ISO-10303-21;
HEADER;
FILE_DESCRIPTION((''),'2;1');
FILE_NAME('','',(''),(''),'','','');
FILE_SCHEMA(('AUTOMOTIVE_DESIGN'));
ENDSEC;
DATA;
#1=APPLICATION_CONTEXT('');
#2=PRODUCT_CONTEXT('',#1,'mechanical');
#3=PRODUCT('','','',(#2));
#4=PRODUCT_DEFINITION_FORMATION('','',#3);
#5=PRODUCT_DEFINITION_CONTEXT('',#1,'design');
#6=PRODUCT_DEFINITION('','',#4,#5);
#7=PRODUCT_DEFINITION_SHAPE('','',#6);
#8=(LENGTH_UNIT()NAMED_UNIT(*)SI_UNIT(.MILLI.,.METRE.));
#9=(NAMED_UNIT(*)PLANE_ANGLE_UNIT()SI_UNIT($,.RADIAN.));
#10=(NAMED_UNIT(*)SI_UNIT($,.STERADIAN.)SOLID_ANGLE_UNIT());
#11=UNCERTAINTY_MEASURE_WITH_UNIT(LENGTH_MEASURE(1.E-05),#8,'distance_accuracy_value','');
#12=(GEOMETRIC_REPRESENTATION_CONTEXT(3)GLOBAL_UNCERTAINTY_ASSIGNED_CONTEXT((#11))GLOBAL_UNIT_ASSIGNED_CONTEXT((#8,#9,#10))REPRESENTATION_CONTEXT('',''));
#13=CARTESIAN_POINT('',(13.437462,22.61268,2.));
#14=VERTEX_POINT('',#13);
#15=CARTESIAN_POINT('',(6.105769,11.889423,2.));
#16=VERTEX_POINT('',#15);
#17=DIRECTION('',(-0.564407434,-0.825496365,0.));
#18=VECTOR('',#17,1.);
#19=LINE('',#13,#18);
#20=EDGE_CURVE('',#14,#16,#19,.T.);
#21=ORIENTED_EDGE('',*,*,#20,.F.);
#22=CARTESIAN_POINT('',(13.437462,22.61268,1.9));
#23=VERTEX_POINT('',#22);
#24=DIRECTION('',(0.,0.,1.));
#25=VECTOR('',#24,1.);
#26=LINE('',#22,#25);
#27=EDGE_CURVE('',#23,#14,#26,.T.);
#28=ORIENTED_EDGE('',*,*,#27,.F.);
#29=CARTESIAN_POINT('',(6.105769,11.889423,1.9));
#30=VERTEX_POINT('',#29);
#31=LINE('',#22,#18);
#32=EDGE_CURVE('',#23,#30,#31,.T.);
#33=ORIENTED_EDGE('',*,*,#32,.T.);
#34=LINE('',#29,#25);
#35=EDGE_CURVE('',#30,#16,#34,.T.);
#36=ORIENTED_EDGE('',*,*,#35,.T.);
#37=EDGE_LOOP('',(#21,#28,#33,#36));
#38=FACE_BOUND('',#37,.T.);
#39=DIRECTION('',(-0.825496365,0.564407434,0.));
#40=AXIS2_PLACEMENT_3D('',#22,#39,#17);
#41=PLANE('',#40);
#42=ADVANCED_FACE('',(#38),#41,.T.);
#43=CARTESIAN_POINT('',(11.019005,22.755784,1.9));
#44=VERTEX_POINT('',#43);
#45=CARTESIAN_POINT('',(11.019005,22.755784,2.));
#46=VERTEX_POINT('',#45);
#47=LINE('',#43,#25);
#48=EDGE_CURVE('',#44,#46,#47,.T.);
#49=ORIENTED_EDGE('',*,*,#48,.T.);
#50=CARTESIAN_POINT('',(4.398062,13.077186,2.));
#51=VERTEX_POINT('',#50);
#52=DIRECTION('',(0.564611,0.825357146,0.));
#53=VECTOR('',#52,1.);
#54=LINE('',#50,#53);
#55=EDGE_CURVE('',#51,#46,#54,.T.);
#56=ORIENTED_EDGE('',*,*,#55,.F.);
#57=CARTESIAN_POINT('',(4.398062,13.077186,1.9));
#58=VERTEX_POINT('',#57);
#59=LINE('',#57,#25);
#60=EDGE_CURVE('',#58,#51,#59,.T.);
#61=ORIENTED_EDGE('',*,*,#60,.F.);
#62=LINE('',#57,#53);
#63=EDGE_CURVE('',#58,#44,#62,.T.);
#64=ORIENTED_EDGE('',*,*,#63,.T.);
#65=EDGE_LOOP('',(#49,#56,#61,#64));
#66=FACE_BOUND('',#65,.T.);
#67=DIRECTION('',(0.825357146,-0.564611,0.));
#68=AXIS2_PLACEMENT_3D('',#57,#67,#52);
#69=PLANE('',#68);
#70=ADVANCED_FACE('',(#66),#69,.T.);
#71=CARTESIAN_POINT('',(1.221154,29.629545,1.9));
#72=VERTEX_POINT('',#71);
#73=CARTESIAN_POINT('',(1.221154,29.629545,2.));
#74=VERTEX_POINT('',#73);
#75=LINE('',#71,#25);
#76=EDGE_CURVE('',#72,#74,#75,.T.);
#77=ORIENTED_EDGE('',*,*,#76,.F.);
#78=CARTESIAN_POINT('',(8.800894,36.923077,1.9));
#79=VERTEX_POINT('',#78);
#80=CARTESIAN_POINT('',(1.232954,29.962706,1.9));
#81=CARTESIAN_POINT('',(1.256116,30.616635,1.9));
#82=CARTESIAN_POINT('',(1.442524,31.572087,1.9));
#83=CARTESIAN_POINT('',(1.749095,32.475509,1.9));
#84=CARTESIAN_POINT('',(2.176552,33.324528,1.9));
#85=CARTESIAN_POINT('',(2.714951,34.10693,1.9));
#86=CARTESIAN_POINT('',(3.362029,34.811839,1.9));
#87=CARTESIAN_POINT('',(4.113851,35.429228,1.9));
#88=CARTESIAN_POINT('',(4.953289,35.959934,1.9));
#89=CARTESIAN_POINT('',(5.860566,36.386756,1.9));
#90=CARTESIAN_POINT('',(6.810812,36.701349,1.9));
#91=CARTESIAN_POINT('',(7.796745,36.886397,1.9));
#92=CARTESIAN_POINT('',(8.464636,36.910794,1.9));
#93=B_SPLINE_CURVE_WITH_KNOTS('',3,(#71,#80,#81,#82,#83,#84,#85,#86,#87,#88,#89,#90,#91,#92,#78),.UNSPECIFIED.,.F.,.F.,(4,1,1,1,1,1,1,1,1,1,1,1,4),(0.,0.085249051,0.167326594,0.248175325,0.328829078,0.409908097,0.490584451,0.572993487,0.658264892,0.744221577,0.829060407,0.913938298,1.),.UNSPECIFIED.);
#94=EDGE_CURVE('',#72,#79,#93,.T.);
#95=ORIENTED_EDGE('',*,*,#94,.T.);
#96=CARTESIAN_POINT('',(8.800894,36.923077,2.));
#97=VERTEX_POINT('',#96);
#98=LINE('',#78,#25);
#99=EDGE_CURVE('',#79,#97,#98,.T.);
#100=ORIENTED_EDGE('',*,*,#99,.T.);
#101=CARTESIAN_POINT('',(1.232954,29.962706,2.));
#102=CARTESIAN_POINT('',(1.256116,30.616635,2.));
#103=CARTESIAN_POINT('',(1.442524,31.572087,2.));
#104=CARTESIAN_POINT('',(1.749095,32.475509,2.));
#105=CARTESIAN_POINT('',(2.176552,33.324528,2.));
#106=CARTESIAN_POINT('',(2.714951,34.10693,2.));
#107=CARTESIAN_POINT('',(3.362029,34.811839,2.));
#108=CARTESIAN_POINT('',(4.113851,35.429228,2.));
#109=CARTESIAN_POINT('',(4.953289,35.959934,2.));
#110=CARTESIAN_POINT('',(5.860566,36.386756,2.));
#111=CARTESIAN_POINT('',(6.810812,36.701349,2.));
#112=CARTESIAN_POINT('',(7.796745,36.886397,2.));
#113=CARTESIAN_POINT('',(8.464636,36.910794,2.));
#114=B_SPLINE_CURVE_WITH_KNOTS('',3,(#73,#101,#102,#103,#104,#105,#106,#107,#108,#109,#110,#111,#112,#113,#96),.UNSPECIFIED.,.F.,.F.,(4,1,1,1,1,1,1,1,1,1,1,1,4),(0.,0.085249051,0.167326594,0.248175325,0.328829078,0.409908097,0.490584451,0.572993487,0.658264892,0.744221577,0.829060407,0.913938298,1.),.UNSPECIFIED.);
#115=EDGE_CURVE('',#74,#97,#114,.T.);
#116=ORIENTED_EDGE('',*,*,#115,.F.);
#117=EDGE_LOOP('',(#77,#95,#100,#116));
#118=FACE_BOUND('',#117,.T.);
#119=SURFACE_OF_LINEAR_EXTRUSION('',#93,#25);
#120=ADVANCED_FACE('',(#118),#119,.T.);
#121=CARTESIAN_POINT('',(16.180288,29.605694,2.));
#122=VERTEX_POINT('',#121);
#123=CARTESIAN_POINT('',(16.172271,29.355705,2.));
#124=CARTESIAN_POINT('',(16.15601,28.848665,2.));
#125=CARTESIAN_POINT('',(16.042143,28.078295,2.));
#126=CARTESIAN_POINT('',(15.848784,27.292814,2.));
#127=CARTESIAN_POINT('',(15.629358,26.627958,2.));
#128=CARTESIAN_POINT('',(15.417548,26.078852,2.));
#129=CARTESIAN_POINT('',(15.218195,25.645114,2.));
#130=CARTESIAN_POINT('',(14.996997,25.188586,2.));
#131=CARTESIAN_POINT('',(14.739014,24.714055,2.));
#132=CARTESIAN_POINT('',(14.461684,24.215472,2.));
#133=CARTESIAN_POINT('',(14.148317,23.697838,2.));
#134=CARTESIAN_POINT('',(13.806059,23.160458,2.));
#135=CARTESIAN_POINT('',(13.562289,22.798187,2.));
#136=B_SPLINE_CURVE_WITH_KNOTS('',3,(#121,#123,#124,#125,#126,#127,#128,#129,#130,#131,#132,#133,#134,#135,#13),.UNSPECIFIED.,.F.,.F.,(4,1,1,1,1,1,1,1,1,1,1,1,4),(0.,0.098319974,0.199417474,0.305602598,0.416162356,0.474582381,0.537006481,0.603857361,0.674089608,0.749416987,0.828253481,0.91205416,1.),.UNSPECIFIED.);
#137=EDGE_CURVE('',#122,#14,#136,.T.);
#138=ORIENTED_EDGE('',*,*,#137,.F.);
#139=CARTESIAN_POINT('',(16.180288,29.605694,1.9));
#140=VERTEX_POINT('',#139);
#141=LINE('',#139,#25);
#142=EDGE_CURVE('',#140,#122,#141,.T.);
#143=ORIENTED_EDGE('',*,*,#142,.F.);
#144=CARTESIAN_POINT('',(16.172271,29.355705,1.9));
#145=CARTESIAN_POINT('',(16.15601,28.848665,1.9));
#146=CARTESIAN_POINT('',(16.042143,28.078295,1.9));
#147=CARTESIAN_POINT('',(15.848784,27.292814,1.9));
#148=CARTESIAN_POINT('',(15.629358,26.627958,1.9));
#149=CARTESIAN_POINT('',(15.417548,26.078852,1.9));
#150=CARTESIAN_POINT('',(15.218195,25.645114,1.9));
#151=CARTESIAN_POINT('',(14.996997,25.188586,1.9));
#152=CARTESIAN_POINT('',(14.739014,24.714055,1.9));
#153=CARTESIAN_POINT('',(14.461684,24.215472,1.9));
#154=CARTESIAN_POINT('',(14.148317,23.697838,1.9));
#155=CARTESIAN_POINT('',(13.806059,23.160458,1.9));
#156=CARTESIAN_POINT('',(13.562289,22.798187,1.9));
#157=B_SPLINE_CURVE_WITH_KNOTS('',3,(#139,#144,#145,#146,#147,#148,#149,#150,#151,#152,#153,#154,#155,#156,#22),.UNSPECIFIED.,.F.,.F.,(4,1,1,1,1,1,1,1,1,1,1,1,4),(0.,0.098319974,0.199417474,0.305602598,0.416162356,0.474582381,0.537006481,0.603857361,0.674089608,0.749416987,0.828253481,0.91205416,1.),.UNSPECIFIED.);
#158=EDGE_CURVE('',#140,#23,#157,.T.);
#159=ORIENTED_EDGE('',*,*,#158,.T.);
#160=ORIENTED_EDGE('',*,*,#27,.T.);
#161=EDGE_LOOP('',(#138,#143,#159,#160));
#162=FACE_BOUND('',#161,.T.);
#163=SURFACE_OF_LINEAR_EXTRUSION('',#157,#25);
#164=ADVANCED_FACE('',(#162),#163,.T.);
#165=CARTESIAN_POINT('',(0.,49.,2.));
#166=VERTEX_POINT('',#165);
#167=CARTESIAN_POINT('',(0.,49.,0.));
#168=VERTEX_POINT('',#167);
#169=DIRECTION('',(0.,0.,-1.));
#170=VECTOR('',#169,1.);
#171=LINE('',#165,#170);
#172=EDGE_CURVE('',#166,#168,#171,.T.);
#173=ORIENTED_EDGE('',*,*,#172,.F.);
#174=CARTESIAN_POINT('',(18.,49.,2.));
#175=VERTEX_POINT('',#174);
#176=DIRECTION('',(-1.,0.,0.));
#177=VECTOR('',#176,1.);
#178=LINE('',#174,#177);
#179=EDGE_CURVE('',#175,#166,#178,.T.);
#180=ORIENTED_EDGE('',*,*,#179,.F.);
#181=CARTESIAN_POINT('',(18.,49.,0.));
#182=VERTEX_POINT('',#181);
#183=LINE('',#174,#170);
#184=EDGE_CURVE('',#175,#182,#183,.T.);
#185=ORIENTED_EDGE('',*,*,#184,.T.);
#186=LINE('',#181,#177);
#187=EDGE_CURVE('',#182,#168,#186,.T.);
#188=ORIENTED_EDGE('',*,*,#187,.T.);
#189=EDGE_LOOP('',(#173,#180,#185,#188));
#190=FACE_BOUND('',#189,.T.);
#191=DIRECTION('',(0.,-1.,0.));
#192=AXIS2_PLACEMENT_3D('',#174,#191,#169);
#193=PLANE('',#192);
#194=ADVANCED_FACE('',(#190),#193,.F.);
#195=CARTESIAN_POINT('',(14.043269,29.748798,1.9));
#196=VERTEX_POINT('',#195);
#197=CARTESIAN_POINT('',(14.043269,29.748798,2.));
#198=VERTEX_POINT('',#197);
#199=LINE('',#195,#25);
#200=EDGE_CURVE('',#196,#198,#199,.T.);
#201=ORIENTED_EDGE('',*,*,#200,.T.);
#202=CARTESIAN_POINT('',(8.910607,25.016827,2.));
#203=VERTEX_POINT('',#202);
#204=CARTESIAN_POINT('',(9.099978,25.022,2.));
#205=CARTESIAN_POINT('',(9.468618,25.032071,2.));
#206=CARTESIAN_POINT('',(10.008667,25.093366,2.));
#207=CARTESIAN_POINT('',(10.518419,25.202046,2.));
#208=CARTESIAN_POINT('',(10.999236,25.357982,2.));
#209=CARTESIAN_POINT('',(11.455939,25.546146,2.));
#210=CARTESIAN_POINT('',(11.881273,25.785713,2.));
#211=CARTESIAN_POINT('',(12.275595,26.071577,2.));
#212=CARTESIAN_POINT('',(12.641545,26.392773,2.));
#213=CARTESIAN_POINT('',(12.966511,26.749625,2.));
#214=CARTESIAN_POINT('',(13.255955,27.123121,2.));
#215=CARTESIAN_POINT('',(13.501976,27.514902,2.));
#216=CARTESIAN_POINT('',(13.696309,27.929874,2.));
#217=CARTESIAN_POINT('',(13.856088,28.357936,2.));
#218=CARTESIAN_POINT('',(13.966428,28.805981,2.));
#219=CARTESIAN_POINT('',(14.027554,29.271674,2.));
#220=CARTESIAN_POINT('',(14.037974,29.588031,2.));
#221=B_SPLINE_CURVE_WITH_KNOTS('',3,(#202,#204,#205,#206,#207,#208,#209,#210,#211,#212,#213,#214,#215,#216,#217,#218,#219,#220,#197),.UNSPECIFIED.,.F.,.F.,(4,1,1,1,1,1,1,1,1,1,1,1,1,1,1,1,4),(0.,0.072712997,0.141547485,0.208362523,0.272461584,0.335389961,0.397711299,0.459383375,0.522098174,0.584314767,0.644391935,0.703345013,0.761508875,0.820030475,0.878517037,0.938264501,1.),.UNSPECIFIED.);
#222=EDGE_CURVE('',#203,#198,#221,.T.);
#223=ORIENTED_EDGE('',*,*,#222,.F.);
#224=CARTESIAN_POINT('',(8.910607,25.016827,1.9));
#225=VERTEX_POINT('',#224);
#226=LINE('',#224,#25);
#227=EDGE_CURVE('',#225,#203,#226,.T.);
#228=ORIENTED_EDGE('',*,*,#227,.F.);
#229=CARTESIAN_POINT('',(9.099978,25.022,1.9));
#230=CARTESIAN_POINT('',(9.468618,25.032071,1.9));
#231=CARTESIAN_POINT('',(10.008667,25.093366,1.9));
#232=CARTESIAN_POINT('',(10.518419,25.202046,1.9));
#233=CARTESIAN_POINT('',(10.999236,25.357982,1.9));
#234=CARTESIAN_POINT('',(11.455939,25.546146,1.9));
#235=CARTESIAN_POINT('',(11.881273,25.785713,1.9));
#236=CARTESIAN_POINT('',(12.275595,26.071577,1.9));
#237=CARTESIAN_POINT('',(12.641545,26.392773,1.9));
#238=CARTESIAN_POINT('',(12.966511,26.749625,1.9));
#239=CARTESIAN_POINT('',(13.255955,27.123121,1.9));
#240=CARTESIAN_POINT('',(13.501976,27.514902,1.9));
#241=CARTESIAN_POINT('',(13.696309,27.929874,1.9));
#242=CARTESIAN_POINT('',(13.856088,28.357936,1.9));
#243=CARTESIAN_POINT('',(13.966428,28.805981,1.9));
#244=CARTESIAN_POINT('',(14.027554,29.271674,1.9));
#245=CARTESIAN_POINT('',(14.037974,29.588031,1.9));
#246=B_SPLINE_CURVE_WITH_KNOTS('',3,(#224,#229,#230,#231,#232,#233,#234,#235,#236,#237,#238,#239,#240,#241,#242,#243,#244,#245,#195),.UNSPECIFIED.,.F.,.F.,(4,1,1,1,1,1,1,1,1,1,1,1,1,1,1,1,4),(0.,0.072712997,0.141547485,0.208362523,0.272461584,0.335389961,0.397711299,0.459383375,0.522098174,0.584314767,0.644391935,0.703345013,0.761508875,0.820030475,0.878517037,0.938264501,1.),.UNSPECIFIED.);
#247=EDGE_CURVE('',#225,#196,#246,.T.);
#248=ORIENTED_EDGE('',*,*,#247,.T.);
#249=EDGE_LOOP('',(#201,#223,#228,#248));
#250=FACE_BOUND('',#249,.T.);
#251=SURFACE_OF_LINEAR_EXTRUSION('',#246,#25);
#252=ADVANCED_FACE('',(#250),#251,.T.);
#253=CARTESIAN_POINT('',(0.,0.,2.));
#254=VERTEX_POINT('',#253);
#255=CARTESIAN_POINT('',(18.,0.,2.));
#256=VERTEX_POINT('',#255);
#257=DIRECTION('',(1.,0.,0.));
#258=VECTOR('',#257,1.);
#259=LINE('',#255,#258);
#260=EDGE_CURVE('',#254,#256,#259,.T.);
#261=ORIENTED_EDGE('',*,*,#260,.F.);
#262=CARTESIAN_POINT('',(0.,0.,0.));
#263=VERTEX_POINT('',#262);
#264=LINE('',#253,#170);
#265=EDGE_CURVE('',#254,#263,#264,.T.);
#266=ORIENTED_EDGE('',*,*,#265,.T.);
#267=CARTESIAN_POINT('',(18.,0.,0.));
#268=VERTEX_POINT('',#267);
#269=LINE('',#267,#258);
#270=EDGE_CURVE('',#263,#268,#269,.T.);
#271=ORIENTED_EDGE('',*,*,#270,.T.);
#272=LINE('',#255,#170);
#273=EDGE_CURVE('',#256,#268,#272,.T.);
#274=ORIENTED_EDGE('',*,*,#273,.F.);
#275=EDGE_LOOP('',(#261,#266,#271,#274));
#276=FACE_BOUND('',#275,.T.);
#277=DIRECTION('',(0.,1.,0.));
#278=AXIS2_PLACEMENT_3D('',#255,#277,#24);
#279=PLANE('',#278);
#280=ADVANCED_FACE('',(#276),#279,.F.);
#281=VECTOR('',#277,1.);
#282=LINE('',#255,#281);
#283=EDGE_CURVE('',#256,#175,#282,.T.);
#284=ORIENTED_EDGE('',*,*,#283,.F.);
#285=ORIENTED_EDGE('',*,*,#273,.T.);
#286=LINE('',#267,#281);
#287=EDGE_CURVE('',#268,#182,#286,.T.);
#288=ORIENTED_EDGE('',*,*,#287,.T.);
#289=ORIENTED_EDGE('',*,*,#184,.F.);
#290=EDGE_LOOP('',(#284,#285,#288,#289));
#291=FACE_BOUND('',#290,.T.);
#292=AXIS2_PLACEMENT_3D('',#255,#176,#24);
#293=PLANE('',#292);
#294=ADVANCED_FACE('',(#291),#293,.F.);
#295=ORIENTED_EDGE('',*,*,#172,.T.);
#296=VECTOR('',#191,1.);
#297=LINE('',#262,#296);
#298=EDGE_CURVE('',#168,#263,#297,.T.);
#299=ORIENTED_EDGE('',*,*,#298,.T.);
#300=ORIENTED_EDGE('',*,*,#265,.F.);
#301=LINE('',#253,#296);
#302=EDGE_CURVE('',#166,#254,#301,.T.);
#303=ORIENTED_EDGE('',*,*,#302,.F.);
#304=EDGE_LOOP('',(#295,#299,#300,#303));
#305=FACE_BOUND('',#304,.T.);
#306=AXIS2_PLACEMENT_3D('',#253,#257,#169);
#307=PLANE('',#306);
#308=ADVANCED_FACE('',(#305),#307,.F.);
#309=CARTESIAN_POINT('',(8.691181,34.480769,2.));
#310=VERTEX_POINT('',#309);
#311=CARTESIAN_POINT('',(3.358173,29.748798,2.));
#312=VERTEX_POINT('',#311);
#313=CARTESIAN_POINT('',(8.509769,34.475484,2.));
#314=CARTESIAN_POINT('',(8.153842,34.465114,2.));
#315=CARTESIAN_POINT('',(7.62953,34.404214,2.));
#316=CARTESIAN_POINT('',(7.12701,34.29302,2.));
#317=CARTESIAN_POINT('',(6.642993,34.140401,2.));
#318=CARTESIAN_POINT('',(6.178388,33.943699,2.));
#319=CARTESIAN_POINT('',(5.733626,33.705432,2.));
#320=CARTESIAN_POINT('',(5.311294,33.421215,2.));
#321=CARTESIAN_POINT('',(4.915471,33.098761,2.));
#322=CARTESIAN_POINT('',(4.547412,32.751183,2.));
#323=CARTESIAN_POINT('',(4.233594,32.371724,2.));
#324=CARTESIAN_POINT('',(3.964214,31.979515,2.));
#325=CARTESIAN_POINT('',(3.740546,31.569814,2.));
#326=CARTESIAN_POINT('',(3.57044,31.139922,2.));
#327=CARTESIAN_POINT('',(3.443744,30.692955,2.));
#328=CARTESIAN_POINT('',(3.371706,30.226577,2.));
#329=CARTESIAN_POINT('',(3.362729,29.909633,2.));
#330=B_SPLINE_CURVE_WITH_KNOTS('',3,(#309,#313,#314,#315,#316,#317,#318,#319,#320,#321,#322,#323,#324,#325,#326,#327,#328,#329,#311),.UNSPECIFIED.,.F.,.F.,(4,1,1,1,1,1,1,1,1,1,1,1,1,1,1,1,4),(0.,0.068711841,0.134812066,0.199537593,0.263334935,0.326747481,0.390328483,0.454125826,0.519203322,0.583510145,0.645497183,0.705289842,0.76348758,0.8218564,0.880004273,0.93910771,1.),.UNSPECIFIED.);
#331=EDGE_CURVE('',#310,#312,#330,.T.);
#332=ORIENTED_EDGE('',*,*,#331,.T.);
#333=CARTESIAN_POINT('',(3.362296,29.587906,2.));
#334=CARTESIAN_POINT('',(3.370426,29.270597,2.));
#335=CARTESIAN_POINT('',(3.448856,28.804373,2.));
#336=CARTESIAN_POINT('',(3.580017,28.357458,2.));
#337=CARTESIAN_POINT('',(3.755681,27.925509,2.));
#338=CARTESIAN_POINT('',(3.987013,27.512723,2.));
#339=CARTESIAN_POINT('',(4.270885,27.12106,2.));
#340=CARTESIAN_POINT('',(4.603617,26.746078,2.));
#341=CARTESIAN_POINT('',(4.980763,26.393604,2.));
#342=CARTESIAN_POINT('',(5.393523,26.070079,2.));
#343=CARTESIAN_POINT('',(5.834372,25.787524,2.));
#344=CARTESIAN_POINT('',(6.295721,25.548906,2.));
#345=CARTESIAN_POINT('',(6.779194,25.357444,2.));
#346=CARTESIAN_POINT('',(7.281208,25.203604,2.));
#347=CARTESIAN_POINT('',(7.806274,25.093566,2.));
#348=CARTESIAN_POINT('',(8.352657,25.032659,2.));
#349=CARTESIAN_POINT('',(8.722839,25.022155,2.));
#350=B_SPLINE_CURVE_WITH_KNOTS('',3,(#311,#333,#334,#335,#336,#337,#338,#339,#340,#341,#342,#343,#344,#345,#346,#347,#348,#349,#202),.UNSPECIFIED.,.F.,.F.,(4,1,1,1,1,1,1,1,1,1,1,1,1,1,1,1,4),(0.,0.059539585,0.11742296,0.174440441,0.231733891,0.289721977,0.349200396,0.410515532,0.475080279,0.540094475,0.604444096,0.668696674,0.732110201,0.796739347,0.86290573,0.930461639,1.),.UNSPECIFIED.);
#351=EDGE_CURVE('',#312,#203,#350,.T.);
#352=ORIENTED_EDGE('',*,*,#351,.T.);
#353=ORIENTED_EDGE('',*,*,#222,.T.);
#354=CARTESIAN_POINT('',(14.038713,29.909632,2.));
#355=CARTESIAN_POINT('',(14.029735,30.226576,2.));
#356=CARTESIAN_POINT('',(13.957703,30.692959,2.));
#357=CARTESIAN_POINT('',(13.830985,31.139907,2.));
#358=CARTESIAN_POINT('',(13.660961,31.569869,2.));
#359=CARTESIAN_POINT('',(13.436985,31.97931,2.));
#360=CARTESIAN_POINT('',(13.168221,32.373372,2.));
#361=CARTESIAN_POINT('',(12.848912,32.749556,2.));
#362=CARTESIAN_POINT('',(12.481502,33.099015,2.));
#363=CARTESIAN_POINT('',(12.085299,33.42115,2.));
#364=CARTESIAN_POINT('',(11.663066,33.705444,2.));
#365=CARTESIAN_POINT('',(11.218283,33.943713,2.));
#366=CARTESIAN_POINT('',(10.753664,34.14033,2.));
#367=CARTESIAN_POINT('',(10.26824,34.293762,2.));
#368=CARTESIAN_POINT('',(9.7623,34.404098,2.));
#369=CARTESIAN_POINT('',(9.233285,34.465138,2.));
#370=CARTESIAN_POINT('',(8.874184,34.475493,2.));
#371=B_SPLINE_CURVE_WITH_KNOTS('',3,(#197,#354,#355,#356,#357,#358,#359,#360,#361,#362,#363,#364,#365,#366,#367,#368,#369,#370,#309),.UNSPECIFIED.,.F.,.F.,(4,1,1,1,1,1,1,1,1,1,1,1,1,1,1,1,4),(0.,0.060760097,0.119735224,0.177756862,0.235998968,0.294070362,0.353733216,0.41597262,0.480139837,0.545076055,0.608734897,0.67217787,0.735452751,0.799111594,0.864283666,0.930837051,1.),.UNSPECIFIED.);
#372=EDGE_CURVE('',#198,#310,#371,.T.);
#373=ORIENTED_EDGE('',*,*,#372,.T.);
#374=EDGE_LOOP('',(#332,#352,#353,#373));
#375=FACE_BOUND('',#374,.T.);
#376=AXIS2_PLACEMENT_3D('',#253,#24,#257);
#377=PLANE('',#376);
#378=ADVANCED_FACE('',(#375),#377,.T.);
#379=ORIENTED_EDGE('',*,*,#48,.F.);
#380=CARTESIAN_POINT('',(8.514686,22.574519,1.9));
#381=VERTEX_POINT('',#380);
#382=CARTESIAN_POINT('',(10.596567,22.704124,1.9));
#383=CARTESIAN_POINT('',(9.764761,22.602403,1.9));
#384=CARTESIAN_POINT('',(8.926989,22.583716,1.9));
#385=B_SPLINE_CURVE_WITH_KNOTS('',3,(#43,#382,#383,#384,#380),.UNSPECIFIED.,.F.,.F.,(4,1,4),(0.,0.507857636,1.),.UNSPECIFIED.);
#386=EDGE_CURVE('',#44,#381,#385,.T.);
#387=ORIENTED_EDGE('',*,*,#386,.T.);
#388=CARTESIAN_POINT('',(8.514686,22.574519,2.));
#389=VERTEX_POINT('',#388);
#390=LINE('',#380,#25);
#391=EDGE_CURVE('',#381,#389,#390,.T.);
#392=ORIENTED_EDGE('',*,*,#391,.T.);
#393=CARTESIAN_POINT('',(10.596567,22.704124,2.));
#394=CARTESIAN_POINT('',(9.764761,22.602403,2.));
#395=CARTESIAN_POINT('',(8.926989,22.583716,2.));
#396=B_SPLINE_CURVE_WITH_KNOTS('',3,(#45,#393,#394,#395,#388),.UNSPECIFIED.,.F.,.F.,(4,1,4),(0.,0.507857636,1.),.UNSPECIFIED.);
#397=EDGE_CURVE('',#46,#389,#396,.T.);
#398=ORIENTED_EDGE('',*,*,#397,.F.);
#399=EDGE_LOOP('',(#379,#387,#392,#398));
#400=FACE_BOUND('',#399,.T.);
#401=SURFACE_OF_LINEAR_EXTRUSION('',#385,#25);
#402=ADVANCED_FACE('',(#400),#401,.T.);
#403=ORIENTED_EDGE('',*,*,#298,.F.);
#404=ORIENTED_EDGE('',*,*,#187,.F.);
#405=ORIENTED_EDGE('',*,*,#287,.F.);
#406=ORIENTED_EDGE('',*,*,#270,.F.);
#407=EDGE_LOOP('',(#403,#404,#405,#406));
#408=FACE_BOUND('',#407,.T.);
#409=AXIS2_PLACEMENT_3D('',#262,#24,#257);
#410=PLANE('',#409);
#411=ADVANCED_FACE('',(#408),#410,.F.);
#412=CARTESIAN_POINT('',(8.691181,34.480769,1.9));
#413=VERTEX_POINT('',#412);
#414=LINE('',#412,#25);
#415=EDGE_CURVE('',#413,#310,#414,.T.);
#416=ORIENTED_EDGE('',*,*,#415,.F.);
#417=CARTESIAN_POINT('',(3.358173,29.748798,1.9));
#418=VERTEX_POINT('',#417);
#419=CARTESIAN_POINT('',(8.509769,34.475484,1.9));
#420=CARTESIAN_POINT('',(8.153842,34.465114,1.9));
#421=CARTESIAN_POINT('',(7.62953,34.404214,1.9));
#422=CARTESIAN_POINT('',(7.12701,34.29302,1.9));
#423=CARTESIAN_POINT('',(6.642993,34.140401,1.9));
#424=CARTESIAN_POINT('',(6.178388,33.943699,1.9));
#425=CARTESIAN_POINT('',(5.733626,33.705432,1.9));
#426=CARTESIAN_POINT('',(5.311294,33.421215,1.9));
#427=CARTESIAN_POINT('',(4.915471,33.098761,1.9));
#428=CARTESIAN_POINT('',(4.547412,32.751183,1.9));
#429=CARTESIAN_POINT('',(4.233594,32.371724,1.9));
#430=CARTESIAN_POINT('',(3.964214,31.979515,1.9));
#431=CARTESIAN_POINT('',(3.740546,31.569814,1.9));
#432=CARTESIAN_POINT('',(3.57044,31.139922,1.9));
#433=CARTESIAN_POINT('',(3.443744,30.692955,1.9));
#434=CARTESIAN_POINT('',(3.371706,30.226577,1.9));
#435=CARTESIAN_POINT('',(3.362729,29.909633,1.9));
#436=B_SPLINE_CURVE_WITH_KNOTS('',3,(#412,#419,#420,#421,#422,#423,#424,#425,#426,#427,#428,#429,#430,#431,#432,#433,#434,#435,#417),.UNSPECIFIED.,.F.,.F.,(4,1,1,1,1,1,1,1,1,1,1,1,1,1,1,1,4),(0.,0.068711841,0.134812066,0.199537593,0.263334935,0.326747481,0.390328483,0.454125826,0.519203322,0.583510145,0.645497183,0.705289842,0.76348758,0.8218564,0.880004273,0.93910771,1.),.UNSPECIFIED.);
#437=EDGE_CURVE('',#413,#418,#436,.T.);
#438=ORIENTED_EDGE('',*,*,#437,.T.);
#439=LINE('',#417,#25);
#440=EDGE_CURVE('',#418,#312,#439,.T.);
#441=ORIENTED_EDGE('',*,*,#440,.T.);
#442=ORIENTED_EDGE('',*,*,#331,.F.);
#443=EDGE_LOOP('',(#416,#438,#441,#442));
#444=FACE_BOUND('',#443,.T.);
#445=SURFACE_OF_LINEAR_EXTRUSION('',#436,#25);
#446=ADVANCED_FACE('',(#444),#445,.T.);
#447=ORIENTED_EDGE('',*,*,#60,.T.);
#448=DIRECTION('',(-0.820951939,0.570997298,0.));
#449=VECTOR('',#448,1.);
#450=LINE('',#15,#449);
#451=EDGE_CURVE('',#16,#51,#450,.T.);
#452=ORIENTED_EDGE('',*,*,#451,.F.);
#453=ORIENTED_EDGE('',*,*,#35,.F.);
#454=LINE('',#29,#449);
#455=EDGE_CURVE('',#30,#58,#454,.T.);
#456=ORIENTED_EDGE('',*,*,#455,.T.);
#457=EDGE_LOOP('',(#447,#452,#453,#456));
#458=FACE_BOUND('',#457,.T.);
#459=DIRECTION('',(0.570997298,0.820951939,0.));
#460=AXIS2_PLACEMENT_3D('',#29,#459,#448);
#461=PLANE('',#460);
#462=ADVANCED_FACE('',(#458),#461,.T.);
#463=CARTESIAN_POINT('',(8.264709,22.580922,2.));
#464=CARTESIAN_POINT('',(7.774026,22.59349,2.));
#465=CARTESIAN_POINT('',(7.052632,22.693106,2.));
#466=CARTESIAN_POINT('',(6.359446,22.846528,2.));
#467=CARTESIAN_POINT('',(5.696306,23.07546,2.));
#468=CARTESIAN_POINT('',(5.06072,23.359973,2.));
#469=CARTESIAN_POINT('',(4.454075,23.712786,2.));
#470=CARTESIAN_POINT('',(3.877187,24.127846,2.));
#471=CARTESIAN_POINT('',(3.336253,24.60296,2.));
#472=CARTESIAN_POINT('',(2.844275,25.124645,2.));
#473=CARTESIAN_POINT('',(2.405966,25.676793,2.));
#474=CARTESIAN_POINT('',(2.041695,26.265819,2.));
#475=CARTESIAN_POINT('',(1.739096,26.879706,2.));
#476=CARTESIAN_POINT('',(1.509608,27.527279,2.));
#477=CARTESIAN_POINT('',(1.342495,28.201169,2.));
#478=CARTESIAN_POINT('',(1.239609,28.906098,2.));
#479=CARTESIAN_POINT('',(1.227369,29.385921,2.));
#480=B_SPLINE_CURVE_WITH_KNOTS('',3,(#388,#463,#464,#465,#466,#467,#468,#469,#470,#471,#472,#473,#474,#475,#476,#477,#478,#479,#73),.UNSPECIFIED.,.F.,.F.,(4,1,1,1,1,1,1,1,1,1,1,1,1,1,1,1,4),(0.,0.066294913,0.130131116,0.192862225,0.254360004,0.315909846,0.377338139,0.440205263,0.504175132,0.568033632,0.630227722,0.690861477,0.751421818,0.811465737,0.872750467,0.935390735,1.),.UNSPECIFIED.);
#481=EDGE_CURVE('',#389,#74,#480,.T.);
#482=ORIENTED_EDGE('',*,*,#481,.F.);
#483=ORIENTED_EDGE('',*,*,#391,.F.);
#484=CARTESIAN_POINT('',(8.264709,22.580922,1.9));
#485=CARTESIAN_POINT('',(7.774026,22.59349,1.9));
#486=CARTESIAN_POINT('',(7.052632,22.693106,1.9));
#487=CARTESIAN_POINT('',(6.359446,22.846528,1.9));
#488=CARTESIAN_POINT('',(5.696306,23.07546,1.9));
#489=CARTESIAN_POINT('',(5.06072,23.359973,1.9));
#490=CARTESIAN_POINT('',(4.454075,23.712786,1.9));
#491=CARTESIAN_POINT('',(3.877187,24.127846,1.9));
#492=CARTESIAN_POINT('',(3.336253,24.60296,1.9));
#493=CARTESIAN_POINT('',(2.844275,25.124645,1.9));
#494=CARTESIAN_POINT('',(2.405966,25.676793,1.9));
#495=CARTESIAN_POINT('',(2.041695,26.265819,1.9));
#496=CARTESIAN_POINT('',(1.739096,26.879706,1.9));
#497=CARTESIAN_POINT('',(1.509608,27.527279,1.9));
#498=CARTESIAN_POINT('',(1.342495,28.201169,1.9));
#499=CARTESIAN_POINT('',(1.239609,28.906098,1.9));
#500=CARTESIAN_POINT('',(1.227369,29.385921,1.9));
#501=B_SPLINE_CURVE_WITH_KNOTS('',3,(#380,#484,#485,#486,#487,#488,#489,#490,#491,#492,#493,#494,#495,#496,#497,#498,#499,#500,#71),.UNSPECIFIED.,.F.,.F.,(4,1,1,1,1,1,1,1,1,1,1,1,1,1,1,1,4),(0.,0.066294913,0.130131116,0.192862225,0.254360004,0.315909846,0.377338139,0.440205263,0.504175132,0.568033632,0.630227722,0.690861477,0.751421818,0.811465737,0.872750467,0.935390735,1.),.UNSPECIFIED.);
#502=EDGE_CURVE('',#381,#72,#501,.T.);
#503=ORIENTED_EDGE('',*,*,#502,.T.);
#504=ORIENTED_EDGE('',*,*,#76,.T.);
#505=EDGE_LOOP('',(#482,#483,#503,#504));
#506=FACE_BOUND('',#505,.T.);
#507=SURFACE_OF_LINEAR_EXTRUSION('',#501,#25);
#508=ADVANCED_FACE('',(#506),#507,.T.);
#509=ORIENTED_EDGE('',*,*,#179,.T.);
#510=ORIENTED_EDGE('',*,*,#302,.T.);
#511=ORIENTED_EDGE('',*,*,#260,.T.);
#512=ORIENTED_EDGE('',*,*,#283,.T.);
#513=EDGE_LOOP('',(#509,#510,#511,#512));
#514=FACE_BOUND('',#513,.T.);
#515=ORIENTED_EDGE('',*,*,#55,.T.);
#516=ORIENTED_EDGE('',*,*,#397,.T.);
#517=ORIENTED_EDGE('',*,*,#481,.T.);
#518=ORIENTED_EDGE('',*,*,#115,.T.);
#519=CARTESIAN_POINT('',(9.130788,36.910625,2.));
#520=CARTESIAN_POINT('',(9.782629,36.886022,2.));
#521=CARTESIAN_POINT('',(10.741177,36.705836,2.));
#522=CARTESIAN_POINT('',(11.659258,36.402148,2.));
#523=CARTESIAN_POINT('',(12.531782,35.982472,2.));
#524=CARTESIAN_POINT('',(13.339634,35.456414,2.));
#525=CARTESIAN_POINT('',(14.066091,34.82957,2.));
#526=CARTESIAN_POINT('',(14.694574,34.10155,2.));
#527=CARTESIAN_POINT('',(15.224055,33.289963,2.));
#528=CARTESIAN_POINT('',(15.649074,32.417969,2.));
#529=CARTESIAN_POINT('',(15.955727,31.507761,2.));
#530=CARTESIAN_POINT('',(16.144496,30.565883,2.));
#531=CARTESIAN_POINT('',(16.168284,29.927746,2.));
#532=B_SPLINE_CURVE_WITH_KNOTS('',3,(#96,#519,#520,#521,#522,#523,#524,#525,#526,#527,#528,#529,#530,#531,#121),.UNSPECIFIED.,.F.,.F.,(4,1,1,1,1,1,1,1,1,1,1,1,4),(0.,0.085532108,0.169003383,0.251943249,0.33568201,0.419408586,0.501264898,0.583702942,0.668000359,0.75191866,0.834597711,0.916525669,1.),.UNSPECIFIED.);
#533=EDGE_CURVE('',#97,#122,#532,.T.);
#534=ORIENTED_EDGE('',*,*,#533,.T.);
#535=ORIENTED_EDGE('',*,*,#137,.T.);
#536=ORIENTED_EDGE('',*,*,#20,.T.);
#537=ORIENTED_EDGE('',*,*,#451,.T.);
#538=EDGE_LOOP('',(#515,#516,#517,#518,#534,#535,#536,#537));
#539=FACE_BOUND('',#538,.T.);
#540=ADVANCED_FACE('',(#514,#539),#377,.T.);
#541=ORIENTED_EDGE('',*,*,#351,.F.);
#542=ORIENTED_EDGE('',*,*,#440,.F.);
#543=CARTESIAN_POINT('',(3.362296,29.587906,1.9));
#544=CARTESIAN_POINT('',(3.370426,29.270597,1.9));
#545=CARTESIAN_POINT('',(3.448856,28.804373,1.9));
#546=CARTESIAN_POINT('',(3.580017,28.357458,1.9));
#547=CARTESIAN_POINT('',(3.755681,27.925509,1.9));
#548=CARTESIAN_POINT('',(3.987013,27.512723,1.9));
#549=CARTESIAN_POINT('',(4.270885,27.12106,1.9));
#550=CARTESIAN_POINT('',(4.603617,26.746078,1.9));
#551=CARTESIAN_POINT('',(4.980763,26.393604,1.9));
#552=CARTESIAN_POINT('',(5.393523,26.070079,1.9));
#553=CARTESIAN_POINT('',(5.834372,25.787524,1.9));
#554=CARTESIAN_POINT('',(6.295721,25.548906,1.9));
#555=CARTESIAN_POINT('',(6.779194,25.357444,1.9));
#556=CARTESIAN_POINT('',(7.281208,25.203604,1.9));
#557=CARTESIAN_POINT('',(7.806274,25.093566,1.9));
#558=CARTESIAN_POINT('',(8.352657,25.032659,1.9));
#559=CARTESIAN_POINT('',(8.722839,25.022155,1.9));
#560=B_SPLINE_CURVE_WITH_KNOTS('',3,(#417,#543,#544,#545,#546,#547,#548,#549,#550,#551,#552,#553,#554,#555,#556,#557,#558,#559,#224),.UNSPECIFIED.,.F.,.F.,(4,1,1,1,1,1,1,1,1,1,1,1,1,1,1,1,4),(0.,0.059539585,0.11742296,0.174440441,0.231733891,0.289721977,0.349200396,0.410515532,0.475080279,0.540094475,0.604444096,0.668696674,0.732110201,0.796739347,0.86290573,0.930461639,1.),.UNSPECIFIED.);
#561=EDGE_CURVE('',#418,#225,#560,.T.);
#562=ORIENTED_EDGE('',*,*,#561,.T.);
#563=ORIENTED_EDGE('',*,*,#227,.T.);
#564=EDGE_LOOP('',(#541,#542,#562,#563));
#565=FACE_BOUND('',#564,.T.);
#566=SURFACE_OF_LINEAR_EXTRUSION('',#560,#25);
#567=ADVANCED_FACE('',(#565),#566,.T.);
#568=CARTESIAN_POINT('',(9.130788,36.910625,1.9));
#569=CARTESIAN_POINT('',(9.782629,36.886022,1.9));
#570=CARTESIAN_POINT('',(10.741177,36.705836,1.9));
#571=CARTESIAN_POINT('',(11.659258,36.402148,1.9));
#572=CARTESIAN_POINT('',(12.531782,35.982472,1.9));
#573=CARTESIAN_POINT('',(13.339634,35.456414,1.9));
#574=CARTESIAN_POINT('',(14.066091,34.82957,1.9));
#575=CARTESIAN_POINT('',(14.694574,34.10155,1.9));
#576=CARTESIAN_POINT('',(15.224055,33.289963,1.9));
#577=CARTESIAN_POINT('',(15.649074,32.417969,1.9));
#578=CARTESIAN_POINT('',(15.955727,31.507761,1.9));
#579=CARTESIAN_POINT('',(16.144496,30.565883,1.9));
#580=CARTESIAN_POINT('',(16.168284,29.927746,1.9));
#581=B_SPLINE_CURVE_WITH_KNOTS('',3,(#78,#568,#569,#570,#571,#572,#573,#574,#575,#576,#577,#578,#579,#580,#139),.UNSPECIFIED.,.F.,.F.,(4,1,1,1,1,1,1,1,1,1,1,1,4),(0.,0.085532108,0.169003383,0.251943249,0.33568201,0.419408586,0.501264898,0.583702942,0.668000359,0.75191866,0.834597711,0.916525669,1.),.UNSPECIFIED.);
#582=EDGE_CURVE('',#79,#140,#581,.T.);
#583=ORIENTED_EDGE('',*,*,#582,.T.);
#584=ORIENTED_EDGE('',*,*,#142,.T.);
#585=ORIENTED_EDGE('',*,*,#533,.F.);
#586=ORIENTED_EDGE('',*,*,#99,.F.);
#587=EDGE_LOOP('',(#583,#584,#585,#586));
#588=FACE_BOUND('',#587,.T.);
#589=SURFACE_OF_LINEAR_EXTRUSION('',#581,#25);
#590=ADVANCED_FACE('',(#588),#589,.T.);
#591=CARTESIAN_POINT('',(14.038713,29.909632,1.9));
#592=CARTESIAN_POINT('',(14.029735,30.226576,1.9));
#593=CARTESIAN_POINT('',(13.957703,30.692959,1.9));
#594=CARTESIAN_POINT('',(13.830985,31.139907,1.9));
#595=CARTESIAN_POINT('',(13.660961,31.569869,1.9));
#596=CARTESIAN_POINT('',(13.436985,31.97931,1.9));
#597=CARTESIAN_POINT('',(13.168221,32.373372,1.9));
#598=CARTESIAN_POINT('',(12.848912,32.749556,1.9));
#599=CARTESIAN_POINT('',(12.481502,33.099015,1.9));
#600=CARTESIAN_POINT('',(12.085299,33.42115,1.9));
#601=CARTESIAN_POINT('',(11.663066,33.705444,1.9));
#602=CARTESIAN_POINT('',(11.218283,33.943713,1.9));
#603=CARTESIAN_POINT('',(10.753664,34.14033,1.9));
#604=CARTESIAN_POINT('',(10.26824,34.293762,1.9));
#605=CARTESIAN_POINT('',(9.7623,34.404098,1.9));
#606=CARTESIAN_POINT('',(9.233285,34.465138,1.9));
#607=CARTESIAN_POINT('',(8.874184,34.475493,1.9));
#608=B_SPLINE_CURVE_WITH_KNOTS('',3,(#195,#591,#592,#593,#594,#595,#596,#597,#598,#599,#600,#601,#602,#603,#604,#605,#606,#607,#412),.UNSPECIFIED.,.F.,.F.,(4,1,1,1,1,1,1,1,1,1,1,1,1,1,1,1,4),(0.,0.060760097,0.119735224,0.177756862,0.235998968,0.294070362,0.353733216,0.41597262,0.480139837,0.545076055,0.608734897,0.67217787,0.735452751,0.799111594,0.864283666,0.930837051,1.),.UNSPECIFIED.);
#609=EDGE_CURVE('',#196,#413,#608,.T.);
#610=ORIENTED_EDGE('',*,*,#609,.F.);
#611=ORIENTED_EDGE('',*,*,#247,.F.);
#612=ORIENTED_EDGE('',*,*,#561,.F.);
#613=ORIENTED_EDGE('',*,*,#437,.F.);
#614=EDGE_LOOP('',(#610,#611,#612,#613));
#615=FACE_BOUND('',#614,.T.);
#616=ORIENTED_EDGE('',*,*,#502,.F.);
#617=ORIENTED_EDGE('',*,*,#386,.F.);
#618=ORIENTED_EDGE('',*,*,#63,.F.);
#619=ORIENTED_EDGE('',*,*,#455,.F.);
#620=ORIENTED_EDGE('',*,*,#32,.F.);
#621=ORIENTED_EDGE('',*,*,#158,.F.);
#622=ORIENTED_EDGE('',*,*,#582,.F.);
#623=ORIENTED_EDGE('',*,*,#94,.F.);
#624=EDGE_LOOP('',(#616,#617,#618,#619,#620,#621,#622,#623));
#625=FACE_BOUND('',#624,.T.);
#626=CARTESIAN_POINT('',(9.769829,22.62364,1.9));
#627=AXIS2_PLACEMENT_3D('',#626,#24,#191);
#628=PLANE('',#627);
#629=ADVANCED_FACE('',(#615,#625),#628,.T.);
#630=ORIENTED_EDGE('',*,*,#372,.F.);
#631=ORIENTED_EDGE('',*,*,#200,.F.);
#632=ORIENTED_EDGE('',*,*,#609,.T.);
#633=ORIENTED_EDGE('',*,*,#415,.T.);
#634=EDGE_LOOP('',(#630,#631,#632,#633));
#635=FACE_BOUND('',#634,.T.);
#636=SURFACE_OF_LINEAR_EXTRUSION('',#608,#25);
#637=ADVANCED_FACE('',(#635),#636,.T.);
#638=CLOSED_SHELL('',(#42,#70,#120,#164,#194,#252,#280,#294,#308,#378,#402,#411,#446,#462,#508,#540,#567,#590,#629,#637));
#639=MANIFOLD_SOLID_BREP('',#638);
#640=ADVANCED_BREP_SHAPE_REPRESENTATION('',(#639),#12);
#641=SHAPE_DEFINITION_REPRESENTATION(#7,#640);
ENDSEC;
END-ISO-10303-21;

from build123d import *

# Parameters (mm, degrees)
SKETCH_1_W          = 18
SKETCH_1_H          = 49
EXTRUDE_1_DEPTH     = 2
CUT_EXTRUDE_1_DEPTH = 0.1


with BuildPart() as part:
    # ｽｹｯﾁ1 → ﾎﾞｽ - 押し出し1 (new body)
    with BuildSketch(Plane.XY):
        with Locations((9, 24.5)):
            Rectangle(SKETCH_1_W, SKETCH_1_H)
    extrude(amount=EXTRUDE_1_DEPTH)

    # ｽｹｯﾁ2 → ｶｯﾄ - 押し出し1 (cut)
    with BuildSketch(Plane.XY.offset(2)):
        with BuildLine():
            Line((6.105769231, 11.889423077), (4.398061899, 13.077185998))
            Line((4.398061899, 13.077185998), (11.019005409, 22.755784255))
            add(Edge.make_bspline(
                [(11.019005409, 22.755784255), (10.596566654, 22.704124306), (9.764761194, 22.602402987), (8.926989124, 22.583715925), (8.514685998, 22.574519231)],
                knots=[0, 0, 0, 0, 1.015715272, 2, 2, 2, 2], degree=3))
            add(Edge.make_bspline(
                [(8.514685998, 22.574519231), (8.264708851, 22.580921912), (7.774025572, 22.593489814), (7.05263165, 22.693106403), (6.359445961, 22.846527808), (5.696306236, 23.075459517), (5.060719962, 23.359972689), (4.454074662, 23.712785585), (3.877186979, 24.127846247), (3.336252636, 24.602959993), (2.844274555, 25.1246446), (2.405966047, 25.676792814), (2.041695131, 26.265818614), (1.739095506, 26.879706358), (1.509607956, 27.527279477), (1.342494977, 28.201169146), (1.239608959, 28.906098353), (1.227368684, 29.385921118), (1.221153846, 29.629544772)],
                knots=[0, 0, 0, 0, 1.060718605, 2.082097864, 3.085795603, 4.069760067, 5.054557537, 6.03741023, 7.043284206, 8.066802108, 9.088538119, 10.083643548, 11.053783639, 12.022749082, 12.983451788, 13.964007469, 14.966251758, 16, 16, 16, 16], degree=3))
            add(Edge.make_bspline(
                [(1.221153846, 29.629544772), (1.232954197, 29.962706498), (1.256115892, 30.616635383), (1.442523661, 31.572086561), (1.749094898, 32.475509295), (2.176552247, 33.324528293), (2.714950977, 34.10693043), (3.362029063, 34.811839002), (4.113850677, 35.429228097), (4.953289057, 35.95993441), (5.860565859, 36.386756445), (6.810811551, 36.701348828), (7.796745118, 36.886397452), (8.464635874, 36.910794115), (8.80089393, 36.923076923)],
                knots=[0, 0, 0, 0, 1.022988612, 2.007919123, 2.978103895, 3.94594894, 4.918897164, 5.887013414, 6.875921846, 7.89917871, 8.930658928, 9.948724884, 10.967259574, 12, 12, 12, 12], degree=3))
            add(Edge.make_bspline(
                [(8.80089393, 36.923076923), (9.130788356, 36.910625278), (9.782628648, 36.886022001), (10.741177068, 36.705836426), (11.659257915, 36.402147634), (12.531781843, 35.982472298), (13.339633915, 35.45641398), (14.066090774, 34.829570167), (14.694574352, 34.101550419), (15.224054683, 33.289962656), (15.649074065, 32.417969445), (15.955726561, 31.507760972), (16.144495998, 30.565883243), (16.168283509, 29.927745839), (16.180288462, 29.605694111)],
                knots=[0, 0, 0, 0, 1.026385292, 2.028040595, 3.023318987, 4.028184125, 5.03290303, 6.015178782, 7.004435299, 8.016004309, 9.023023918, 10.015172535, 10.998308025, 12, 12, 12, 12], degree=3))
            add(Edge.make_bspline(
                [(16.180288462, 29.605694111), (16.172271072, 29.355705266), (16.156009804, 28.848665427), (16.042143143, 28.078294702), (15.848784383, 27.292814015), (15.629357647, 26.627958159), (15.41754772, 26.078852456), (15.218195378, 25.645114028), (14.996996619, 25.18858579), (14.73901359, 24.714054794), (14.461684392, 24.215471833), (14.148316814, 23.697837642), (13.806059263, 23.160457599), (13.562289206, 22.798187232), (13.43746244, 22.612680288)],
                knots=[0, 0, 0, 0, 1.179839688, 2.393009684, 3.667231171, 4.993948276, 5.694988576, 6.444077775, 7.246288328, 8.089075292, 8.993003841, 9.939041771, 10.944649915, 12, 12, 12, 12], degree=3))
            Line((13.43746244, 22.612680288), (6.105769231, 11.889423077))
        make_face()
        with BuildLine():
            add(Edge.make_bspline(
                [(8.910606971, 25.016826923), (9.099977674, 25.022000248), (9.468618055, 25.032070954), (10.008667179, 25.093365975), (10.518419349, 25.20204613), (10.999236241, 25.357982028), (11.455938913, 25.546146151), (11.881273218, 25.785713413), (12.275595122, 26.07157659), (12.641545126, 26.392773304), (12.96651091, 26.749624595), (13.255955458, 27.123120982), (13.501976461, 27.514901989), (13.696308757, 27.929874005), (13.856087744, 28.357935727), (13.966428147, 28.805980537), (14.0275537, 29.27167412), (14.03797388, 29.588031061), (14.043269231, 29.748798077)],
                knots=[0, 0, 0, 0, 1.163407946, 2.26475976, 3.333800367, 4.359385343, 5.366239384, 6.363380779, 7.350133999, 8.353570782, 9.349036268, 10.310270964, 11.253520213, 12.184142, 13.120487599, 14.056272588, 15.012232024, 16, 16, 16, 16], degree=3))
            add(Edge.make_bspline(
                [(14.043269231, 29.748798077), (14.038713089, 29.909632228), (14.029734652, 30.22657565), (13.957703202, 30.692958702), (13.830985166, 31.139907494), (13.660960619, 31.569868919), (13.436985429, 31.979310378), (13.168220642, 32.373372363), (12.848912368, 32.749556304), (12.481502051, 33.099014835), (12.08529911, 33.421149649), (11.663066064, 33.705444202), (11.218283153, 33.943713413), (10.753663928, 34.140329618), (10.26824034, 34.293762235), (9.762299634, 34.404098234), (9.233285179, 34.465138207), (8.874183928, 34.475492525), (8.691180889, 34.480769231)],
                knots=[0, 0, 0, 0, 0.972161553, 1.915763587, 2.844109794, 3.775983486, 4.705125789, 5.659731448, 6.655561913, 7.682237399, 8.721216875, 9.739758359, 10.754845918, 11.767244016, 12.7857855, 13.828538656, 14.893392813, 16, 16, 16, 16], degree=3))
            add(Edge.make_bspline(
                [(8.691180889, 34.480769231), (8.509769417, 34.475484001), (8.153841603, 34.465114424), (7.62953009, 34.40421426), (7.127010359, 34.293020198), (6.642993264, 34.140400689), (6.178387844, 33.943698746), (5.733625911, 33.705431717), (5.311294101, 33.421215091), (4.915471018, 33.098761371), (4.547411941, 32.751182921), (4.23359361, 32.371724414), (3.964213737, 31.979515364), (3.740546307, 31.569814441), (3.570439895, 31.139922034), (3.443743777, 30.692954764), (3.371706438, 30.226576677), (3.362728809, 29.909632573), (3.358173077, 29.748798077)],
                knots=[0, 0, 0, 0, 1.099389452, 2.15699305, 3.192601482, 4.213358962, 5.227959689, 6.245255729, 7.266013209, 8.307253147, 9.336162325, 10.327954924, 11.284637477, 12.215801273, 13.149702402, 14.080068371, 15.025723358, 16, 16, 16, 16], degree=3))
            add(Edge.make_bspline(
                [(3.358173077, 29.748798077), (3.362295539, 29.587905868), (3.370425787, 29.270596983), (3.448855928, 28.804372775), (3.580017082, 28.357458455), (3.75568115, 27.925508502), (3.987013397, 27.512723181), (4.270884577, 27.121059522), (4.603616953, 26.74607762), (4.980762646, 26.393603554), (5.393522812, 26.070078931), (5.834372103, 25.787524011), (6.295721172, 25.54890613), (6.779194052, 25.357444214), (7.281207816, 25.203604147), (7.806274335, 25.093566276), (8.352657165, 25.03265889), (8.722839363, 25.022154876), (8.910606971, 25.016826923)],
                knots=[0, 0, 0, 0, 0.952633368, 1.87876736, 2.791047057, 3.707742249, 4.635551637, 5.587206343, 6.568248508, 7.601284464, 8.641511608, 9.671105535, 10.699146789, 11.713763218, 12.747829548, 13.806491675, 14.887386225, 16, 16, 16, 16], degree=3))
        make_face(mode=Mode.SUBTRACT)
    extrude(amount=-CUT_EXTRUDE_1_DEPTH, mode=Mode.SUBTRACT)


solid = part.part
